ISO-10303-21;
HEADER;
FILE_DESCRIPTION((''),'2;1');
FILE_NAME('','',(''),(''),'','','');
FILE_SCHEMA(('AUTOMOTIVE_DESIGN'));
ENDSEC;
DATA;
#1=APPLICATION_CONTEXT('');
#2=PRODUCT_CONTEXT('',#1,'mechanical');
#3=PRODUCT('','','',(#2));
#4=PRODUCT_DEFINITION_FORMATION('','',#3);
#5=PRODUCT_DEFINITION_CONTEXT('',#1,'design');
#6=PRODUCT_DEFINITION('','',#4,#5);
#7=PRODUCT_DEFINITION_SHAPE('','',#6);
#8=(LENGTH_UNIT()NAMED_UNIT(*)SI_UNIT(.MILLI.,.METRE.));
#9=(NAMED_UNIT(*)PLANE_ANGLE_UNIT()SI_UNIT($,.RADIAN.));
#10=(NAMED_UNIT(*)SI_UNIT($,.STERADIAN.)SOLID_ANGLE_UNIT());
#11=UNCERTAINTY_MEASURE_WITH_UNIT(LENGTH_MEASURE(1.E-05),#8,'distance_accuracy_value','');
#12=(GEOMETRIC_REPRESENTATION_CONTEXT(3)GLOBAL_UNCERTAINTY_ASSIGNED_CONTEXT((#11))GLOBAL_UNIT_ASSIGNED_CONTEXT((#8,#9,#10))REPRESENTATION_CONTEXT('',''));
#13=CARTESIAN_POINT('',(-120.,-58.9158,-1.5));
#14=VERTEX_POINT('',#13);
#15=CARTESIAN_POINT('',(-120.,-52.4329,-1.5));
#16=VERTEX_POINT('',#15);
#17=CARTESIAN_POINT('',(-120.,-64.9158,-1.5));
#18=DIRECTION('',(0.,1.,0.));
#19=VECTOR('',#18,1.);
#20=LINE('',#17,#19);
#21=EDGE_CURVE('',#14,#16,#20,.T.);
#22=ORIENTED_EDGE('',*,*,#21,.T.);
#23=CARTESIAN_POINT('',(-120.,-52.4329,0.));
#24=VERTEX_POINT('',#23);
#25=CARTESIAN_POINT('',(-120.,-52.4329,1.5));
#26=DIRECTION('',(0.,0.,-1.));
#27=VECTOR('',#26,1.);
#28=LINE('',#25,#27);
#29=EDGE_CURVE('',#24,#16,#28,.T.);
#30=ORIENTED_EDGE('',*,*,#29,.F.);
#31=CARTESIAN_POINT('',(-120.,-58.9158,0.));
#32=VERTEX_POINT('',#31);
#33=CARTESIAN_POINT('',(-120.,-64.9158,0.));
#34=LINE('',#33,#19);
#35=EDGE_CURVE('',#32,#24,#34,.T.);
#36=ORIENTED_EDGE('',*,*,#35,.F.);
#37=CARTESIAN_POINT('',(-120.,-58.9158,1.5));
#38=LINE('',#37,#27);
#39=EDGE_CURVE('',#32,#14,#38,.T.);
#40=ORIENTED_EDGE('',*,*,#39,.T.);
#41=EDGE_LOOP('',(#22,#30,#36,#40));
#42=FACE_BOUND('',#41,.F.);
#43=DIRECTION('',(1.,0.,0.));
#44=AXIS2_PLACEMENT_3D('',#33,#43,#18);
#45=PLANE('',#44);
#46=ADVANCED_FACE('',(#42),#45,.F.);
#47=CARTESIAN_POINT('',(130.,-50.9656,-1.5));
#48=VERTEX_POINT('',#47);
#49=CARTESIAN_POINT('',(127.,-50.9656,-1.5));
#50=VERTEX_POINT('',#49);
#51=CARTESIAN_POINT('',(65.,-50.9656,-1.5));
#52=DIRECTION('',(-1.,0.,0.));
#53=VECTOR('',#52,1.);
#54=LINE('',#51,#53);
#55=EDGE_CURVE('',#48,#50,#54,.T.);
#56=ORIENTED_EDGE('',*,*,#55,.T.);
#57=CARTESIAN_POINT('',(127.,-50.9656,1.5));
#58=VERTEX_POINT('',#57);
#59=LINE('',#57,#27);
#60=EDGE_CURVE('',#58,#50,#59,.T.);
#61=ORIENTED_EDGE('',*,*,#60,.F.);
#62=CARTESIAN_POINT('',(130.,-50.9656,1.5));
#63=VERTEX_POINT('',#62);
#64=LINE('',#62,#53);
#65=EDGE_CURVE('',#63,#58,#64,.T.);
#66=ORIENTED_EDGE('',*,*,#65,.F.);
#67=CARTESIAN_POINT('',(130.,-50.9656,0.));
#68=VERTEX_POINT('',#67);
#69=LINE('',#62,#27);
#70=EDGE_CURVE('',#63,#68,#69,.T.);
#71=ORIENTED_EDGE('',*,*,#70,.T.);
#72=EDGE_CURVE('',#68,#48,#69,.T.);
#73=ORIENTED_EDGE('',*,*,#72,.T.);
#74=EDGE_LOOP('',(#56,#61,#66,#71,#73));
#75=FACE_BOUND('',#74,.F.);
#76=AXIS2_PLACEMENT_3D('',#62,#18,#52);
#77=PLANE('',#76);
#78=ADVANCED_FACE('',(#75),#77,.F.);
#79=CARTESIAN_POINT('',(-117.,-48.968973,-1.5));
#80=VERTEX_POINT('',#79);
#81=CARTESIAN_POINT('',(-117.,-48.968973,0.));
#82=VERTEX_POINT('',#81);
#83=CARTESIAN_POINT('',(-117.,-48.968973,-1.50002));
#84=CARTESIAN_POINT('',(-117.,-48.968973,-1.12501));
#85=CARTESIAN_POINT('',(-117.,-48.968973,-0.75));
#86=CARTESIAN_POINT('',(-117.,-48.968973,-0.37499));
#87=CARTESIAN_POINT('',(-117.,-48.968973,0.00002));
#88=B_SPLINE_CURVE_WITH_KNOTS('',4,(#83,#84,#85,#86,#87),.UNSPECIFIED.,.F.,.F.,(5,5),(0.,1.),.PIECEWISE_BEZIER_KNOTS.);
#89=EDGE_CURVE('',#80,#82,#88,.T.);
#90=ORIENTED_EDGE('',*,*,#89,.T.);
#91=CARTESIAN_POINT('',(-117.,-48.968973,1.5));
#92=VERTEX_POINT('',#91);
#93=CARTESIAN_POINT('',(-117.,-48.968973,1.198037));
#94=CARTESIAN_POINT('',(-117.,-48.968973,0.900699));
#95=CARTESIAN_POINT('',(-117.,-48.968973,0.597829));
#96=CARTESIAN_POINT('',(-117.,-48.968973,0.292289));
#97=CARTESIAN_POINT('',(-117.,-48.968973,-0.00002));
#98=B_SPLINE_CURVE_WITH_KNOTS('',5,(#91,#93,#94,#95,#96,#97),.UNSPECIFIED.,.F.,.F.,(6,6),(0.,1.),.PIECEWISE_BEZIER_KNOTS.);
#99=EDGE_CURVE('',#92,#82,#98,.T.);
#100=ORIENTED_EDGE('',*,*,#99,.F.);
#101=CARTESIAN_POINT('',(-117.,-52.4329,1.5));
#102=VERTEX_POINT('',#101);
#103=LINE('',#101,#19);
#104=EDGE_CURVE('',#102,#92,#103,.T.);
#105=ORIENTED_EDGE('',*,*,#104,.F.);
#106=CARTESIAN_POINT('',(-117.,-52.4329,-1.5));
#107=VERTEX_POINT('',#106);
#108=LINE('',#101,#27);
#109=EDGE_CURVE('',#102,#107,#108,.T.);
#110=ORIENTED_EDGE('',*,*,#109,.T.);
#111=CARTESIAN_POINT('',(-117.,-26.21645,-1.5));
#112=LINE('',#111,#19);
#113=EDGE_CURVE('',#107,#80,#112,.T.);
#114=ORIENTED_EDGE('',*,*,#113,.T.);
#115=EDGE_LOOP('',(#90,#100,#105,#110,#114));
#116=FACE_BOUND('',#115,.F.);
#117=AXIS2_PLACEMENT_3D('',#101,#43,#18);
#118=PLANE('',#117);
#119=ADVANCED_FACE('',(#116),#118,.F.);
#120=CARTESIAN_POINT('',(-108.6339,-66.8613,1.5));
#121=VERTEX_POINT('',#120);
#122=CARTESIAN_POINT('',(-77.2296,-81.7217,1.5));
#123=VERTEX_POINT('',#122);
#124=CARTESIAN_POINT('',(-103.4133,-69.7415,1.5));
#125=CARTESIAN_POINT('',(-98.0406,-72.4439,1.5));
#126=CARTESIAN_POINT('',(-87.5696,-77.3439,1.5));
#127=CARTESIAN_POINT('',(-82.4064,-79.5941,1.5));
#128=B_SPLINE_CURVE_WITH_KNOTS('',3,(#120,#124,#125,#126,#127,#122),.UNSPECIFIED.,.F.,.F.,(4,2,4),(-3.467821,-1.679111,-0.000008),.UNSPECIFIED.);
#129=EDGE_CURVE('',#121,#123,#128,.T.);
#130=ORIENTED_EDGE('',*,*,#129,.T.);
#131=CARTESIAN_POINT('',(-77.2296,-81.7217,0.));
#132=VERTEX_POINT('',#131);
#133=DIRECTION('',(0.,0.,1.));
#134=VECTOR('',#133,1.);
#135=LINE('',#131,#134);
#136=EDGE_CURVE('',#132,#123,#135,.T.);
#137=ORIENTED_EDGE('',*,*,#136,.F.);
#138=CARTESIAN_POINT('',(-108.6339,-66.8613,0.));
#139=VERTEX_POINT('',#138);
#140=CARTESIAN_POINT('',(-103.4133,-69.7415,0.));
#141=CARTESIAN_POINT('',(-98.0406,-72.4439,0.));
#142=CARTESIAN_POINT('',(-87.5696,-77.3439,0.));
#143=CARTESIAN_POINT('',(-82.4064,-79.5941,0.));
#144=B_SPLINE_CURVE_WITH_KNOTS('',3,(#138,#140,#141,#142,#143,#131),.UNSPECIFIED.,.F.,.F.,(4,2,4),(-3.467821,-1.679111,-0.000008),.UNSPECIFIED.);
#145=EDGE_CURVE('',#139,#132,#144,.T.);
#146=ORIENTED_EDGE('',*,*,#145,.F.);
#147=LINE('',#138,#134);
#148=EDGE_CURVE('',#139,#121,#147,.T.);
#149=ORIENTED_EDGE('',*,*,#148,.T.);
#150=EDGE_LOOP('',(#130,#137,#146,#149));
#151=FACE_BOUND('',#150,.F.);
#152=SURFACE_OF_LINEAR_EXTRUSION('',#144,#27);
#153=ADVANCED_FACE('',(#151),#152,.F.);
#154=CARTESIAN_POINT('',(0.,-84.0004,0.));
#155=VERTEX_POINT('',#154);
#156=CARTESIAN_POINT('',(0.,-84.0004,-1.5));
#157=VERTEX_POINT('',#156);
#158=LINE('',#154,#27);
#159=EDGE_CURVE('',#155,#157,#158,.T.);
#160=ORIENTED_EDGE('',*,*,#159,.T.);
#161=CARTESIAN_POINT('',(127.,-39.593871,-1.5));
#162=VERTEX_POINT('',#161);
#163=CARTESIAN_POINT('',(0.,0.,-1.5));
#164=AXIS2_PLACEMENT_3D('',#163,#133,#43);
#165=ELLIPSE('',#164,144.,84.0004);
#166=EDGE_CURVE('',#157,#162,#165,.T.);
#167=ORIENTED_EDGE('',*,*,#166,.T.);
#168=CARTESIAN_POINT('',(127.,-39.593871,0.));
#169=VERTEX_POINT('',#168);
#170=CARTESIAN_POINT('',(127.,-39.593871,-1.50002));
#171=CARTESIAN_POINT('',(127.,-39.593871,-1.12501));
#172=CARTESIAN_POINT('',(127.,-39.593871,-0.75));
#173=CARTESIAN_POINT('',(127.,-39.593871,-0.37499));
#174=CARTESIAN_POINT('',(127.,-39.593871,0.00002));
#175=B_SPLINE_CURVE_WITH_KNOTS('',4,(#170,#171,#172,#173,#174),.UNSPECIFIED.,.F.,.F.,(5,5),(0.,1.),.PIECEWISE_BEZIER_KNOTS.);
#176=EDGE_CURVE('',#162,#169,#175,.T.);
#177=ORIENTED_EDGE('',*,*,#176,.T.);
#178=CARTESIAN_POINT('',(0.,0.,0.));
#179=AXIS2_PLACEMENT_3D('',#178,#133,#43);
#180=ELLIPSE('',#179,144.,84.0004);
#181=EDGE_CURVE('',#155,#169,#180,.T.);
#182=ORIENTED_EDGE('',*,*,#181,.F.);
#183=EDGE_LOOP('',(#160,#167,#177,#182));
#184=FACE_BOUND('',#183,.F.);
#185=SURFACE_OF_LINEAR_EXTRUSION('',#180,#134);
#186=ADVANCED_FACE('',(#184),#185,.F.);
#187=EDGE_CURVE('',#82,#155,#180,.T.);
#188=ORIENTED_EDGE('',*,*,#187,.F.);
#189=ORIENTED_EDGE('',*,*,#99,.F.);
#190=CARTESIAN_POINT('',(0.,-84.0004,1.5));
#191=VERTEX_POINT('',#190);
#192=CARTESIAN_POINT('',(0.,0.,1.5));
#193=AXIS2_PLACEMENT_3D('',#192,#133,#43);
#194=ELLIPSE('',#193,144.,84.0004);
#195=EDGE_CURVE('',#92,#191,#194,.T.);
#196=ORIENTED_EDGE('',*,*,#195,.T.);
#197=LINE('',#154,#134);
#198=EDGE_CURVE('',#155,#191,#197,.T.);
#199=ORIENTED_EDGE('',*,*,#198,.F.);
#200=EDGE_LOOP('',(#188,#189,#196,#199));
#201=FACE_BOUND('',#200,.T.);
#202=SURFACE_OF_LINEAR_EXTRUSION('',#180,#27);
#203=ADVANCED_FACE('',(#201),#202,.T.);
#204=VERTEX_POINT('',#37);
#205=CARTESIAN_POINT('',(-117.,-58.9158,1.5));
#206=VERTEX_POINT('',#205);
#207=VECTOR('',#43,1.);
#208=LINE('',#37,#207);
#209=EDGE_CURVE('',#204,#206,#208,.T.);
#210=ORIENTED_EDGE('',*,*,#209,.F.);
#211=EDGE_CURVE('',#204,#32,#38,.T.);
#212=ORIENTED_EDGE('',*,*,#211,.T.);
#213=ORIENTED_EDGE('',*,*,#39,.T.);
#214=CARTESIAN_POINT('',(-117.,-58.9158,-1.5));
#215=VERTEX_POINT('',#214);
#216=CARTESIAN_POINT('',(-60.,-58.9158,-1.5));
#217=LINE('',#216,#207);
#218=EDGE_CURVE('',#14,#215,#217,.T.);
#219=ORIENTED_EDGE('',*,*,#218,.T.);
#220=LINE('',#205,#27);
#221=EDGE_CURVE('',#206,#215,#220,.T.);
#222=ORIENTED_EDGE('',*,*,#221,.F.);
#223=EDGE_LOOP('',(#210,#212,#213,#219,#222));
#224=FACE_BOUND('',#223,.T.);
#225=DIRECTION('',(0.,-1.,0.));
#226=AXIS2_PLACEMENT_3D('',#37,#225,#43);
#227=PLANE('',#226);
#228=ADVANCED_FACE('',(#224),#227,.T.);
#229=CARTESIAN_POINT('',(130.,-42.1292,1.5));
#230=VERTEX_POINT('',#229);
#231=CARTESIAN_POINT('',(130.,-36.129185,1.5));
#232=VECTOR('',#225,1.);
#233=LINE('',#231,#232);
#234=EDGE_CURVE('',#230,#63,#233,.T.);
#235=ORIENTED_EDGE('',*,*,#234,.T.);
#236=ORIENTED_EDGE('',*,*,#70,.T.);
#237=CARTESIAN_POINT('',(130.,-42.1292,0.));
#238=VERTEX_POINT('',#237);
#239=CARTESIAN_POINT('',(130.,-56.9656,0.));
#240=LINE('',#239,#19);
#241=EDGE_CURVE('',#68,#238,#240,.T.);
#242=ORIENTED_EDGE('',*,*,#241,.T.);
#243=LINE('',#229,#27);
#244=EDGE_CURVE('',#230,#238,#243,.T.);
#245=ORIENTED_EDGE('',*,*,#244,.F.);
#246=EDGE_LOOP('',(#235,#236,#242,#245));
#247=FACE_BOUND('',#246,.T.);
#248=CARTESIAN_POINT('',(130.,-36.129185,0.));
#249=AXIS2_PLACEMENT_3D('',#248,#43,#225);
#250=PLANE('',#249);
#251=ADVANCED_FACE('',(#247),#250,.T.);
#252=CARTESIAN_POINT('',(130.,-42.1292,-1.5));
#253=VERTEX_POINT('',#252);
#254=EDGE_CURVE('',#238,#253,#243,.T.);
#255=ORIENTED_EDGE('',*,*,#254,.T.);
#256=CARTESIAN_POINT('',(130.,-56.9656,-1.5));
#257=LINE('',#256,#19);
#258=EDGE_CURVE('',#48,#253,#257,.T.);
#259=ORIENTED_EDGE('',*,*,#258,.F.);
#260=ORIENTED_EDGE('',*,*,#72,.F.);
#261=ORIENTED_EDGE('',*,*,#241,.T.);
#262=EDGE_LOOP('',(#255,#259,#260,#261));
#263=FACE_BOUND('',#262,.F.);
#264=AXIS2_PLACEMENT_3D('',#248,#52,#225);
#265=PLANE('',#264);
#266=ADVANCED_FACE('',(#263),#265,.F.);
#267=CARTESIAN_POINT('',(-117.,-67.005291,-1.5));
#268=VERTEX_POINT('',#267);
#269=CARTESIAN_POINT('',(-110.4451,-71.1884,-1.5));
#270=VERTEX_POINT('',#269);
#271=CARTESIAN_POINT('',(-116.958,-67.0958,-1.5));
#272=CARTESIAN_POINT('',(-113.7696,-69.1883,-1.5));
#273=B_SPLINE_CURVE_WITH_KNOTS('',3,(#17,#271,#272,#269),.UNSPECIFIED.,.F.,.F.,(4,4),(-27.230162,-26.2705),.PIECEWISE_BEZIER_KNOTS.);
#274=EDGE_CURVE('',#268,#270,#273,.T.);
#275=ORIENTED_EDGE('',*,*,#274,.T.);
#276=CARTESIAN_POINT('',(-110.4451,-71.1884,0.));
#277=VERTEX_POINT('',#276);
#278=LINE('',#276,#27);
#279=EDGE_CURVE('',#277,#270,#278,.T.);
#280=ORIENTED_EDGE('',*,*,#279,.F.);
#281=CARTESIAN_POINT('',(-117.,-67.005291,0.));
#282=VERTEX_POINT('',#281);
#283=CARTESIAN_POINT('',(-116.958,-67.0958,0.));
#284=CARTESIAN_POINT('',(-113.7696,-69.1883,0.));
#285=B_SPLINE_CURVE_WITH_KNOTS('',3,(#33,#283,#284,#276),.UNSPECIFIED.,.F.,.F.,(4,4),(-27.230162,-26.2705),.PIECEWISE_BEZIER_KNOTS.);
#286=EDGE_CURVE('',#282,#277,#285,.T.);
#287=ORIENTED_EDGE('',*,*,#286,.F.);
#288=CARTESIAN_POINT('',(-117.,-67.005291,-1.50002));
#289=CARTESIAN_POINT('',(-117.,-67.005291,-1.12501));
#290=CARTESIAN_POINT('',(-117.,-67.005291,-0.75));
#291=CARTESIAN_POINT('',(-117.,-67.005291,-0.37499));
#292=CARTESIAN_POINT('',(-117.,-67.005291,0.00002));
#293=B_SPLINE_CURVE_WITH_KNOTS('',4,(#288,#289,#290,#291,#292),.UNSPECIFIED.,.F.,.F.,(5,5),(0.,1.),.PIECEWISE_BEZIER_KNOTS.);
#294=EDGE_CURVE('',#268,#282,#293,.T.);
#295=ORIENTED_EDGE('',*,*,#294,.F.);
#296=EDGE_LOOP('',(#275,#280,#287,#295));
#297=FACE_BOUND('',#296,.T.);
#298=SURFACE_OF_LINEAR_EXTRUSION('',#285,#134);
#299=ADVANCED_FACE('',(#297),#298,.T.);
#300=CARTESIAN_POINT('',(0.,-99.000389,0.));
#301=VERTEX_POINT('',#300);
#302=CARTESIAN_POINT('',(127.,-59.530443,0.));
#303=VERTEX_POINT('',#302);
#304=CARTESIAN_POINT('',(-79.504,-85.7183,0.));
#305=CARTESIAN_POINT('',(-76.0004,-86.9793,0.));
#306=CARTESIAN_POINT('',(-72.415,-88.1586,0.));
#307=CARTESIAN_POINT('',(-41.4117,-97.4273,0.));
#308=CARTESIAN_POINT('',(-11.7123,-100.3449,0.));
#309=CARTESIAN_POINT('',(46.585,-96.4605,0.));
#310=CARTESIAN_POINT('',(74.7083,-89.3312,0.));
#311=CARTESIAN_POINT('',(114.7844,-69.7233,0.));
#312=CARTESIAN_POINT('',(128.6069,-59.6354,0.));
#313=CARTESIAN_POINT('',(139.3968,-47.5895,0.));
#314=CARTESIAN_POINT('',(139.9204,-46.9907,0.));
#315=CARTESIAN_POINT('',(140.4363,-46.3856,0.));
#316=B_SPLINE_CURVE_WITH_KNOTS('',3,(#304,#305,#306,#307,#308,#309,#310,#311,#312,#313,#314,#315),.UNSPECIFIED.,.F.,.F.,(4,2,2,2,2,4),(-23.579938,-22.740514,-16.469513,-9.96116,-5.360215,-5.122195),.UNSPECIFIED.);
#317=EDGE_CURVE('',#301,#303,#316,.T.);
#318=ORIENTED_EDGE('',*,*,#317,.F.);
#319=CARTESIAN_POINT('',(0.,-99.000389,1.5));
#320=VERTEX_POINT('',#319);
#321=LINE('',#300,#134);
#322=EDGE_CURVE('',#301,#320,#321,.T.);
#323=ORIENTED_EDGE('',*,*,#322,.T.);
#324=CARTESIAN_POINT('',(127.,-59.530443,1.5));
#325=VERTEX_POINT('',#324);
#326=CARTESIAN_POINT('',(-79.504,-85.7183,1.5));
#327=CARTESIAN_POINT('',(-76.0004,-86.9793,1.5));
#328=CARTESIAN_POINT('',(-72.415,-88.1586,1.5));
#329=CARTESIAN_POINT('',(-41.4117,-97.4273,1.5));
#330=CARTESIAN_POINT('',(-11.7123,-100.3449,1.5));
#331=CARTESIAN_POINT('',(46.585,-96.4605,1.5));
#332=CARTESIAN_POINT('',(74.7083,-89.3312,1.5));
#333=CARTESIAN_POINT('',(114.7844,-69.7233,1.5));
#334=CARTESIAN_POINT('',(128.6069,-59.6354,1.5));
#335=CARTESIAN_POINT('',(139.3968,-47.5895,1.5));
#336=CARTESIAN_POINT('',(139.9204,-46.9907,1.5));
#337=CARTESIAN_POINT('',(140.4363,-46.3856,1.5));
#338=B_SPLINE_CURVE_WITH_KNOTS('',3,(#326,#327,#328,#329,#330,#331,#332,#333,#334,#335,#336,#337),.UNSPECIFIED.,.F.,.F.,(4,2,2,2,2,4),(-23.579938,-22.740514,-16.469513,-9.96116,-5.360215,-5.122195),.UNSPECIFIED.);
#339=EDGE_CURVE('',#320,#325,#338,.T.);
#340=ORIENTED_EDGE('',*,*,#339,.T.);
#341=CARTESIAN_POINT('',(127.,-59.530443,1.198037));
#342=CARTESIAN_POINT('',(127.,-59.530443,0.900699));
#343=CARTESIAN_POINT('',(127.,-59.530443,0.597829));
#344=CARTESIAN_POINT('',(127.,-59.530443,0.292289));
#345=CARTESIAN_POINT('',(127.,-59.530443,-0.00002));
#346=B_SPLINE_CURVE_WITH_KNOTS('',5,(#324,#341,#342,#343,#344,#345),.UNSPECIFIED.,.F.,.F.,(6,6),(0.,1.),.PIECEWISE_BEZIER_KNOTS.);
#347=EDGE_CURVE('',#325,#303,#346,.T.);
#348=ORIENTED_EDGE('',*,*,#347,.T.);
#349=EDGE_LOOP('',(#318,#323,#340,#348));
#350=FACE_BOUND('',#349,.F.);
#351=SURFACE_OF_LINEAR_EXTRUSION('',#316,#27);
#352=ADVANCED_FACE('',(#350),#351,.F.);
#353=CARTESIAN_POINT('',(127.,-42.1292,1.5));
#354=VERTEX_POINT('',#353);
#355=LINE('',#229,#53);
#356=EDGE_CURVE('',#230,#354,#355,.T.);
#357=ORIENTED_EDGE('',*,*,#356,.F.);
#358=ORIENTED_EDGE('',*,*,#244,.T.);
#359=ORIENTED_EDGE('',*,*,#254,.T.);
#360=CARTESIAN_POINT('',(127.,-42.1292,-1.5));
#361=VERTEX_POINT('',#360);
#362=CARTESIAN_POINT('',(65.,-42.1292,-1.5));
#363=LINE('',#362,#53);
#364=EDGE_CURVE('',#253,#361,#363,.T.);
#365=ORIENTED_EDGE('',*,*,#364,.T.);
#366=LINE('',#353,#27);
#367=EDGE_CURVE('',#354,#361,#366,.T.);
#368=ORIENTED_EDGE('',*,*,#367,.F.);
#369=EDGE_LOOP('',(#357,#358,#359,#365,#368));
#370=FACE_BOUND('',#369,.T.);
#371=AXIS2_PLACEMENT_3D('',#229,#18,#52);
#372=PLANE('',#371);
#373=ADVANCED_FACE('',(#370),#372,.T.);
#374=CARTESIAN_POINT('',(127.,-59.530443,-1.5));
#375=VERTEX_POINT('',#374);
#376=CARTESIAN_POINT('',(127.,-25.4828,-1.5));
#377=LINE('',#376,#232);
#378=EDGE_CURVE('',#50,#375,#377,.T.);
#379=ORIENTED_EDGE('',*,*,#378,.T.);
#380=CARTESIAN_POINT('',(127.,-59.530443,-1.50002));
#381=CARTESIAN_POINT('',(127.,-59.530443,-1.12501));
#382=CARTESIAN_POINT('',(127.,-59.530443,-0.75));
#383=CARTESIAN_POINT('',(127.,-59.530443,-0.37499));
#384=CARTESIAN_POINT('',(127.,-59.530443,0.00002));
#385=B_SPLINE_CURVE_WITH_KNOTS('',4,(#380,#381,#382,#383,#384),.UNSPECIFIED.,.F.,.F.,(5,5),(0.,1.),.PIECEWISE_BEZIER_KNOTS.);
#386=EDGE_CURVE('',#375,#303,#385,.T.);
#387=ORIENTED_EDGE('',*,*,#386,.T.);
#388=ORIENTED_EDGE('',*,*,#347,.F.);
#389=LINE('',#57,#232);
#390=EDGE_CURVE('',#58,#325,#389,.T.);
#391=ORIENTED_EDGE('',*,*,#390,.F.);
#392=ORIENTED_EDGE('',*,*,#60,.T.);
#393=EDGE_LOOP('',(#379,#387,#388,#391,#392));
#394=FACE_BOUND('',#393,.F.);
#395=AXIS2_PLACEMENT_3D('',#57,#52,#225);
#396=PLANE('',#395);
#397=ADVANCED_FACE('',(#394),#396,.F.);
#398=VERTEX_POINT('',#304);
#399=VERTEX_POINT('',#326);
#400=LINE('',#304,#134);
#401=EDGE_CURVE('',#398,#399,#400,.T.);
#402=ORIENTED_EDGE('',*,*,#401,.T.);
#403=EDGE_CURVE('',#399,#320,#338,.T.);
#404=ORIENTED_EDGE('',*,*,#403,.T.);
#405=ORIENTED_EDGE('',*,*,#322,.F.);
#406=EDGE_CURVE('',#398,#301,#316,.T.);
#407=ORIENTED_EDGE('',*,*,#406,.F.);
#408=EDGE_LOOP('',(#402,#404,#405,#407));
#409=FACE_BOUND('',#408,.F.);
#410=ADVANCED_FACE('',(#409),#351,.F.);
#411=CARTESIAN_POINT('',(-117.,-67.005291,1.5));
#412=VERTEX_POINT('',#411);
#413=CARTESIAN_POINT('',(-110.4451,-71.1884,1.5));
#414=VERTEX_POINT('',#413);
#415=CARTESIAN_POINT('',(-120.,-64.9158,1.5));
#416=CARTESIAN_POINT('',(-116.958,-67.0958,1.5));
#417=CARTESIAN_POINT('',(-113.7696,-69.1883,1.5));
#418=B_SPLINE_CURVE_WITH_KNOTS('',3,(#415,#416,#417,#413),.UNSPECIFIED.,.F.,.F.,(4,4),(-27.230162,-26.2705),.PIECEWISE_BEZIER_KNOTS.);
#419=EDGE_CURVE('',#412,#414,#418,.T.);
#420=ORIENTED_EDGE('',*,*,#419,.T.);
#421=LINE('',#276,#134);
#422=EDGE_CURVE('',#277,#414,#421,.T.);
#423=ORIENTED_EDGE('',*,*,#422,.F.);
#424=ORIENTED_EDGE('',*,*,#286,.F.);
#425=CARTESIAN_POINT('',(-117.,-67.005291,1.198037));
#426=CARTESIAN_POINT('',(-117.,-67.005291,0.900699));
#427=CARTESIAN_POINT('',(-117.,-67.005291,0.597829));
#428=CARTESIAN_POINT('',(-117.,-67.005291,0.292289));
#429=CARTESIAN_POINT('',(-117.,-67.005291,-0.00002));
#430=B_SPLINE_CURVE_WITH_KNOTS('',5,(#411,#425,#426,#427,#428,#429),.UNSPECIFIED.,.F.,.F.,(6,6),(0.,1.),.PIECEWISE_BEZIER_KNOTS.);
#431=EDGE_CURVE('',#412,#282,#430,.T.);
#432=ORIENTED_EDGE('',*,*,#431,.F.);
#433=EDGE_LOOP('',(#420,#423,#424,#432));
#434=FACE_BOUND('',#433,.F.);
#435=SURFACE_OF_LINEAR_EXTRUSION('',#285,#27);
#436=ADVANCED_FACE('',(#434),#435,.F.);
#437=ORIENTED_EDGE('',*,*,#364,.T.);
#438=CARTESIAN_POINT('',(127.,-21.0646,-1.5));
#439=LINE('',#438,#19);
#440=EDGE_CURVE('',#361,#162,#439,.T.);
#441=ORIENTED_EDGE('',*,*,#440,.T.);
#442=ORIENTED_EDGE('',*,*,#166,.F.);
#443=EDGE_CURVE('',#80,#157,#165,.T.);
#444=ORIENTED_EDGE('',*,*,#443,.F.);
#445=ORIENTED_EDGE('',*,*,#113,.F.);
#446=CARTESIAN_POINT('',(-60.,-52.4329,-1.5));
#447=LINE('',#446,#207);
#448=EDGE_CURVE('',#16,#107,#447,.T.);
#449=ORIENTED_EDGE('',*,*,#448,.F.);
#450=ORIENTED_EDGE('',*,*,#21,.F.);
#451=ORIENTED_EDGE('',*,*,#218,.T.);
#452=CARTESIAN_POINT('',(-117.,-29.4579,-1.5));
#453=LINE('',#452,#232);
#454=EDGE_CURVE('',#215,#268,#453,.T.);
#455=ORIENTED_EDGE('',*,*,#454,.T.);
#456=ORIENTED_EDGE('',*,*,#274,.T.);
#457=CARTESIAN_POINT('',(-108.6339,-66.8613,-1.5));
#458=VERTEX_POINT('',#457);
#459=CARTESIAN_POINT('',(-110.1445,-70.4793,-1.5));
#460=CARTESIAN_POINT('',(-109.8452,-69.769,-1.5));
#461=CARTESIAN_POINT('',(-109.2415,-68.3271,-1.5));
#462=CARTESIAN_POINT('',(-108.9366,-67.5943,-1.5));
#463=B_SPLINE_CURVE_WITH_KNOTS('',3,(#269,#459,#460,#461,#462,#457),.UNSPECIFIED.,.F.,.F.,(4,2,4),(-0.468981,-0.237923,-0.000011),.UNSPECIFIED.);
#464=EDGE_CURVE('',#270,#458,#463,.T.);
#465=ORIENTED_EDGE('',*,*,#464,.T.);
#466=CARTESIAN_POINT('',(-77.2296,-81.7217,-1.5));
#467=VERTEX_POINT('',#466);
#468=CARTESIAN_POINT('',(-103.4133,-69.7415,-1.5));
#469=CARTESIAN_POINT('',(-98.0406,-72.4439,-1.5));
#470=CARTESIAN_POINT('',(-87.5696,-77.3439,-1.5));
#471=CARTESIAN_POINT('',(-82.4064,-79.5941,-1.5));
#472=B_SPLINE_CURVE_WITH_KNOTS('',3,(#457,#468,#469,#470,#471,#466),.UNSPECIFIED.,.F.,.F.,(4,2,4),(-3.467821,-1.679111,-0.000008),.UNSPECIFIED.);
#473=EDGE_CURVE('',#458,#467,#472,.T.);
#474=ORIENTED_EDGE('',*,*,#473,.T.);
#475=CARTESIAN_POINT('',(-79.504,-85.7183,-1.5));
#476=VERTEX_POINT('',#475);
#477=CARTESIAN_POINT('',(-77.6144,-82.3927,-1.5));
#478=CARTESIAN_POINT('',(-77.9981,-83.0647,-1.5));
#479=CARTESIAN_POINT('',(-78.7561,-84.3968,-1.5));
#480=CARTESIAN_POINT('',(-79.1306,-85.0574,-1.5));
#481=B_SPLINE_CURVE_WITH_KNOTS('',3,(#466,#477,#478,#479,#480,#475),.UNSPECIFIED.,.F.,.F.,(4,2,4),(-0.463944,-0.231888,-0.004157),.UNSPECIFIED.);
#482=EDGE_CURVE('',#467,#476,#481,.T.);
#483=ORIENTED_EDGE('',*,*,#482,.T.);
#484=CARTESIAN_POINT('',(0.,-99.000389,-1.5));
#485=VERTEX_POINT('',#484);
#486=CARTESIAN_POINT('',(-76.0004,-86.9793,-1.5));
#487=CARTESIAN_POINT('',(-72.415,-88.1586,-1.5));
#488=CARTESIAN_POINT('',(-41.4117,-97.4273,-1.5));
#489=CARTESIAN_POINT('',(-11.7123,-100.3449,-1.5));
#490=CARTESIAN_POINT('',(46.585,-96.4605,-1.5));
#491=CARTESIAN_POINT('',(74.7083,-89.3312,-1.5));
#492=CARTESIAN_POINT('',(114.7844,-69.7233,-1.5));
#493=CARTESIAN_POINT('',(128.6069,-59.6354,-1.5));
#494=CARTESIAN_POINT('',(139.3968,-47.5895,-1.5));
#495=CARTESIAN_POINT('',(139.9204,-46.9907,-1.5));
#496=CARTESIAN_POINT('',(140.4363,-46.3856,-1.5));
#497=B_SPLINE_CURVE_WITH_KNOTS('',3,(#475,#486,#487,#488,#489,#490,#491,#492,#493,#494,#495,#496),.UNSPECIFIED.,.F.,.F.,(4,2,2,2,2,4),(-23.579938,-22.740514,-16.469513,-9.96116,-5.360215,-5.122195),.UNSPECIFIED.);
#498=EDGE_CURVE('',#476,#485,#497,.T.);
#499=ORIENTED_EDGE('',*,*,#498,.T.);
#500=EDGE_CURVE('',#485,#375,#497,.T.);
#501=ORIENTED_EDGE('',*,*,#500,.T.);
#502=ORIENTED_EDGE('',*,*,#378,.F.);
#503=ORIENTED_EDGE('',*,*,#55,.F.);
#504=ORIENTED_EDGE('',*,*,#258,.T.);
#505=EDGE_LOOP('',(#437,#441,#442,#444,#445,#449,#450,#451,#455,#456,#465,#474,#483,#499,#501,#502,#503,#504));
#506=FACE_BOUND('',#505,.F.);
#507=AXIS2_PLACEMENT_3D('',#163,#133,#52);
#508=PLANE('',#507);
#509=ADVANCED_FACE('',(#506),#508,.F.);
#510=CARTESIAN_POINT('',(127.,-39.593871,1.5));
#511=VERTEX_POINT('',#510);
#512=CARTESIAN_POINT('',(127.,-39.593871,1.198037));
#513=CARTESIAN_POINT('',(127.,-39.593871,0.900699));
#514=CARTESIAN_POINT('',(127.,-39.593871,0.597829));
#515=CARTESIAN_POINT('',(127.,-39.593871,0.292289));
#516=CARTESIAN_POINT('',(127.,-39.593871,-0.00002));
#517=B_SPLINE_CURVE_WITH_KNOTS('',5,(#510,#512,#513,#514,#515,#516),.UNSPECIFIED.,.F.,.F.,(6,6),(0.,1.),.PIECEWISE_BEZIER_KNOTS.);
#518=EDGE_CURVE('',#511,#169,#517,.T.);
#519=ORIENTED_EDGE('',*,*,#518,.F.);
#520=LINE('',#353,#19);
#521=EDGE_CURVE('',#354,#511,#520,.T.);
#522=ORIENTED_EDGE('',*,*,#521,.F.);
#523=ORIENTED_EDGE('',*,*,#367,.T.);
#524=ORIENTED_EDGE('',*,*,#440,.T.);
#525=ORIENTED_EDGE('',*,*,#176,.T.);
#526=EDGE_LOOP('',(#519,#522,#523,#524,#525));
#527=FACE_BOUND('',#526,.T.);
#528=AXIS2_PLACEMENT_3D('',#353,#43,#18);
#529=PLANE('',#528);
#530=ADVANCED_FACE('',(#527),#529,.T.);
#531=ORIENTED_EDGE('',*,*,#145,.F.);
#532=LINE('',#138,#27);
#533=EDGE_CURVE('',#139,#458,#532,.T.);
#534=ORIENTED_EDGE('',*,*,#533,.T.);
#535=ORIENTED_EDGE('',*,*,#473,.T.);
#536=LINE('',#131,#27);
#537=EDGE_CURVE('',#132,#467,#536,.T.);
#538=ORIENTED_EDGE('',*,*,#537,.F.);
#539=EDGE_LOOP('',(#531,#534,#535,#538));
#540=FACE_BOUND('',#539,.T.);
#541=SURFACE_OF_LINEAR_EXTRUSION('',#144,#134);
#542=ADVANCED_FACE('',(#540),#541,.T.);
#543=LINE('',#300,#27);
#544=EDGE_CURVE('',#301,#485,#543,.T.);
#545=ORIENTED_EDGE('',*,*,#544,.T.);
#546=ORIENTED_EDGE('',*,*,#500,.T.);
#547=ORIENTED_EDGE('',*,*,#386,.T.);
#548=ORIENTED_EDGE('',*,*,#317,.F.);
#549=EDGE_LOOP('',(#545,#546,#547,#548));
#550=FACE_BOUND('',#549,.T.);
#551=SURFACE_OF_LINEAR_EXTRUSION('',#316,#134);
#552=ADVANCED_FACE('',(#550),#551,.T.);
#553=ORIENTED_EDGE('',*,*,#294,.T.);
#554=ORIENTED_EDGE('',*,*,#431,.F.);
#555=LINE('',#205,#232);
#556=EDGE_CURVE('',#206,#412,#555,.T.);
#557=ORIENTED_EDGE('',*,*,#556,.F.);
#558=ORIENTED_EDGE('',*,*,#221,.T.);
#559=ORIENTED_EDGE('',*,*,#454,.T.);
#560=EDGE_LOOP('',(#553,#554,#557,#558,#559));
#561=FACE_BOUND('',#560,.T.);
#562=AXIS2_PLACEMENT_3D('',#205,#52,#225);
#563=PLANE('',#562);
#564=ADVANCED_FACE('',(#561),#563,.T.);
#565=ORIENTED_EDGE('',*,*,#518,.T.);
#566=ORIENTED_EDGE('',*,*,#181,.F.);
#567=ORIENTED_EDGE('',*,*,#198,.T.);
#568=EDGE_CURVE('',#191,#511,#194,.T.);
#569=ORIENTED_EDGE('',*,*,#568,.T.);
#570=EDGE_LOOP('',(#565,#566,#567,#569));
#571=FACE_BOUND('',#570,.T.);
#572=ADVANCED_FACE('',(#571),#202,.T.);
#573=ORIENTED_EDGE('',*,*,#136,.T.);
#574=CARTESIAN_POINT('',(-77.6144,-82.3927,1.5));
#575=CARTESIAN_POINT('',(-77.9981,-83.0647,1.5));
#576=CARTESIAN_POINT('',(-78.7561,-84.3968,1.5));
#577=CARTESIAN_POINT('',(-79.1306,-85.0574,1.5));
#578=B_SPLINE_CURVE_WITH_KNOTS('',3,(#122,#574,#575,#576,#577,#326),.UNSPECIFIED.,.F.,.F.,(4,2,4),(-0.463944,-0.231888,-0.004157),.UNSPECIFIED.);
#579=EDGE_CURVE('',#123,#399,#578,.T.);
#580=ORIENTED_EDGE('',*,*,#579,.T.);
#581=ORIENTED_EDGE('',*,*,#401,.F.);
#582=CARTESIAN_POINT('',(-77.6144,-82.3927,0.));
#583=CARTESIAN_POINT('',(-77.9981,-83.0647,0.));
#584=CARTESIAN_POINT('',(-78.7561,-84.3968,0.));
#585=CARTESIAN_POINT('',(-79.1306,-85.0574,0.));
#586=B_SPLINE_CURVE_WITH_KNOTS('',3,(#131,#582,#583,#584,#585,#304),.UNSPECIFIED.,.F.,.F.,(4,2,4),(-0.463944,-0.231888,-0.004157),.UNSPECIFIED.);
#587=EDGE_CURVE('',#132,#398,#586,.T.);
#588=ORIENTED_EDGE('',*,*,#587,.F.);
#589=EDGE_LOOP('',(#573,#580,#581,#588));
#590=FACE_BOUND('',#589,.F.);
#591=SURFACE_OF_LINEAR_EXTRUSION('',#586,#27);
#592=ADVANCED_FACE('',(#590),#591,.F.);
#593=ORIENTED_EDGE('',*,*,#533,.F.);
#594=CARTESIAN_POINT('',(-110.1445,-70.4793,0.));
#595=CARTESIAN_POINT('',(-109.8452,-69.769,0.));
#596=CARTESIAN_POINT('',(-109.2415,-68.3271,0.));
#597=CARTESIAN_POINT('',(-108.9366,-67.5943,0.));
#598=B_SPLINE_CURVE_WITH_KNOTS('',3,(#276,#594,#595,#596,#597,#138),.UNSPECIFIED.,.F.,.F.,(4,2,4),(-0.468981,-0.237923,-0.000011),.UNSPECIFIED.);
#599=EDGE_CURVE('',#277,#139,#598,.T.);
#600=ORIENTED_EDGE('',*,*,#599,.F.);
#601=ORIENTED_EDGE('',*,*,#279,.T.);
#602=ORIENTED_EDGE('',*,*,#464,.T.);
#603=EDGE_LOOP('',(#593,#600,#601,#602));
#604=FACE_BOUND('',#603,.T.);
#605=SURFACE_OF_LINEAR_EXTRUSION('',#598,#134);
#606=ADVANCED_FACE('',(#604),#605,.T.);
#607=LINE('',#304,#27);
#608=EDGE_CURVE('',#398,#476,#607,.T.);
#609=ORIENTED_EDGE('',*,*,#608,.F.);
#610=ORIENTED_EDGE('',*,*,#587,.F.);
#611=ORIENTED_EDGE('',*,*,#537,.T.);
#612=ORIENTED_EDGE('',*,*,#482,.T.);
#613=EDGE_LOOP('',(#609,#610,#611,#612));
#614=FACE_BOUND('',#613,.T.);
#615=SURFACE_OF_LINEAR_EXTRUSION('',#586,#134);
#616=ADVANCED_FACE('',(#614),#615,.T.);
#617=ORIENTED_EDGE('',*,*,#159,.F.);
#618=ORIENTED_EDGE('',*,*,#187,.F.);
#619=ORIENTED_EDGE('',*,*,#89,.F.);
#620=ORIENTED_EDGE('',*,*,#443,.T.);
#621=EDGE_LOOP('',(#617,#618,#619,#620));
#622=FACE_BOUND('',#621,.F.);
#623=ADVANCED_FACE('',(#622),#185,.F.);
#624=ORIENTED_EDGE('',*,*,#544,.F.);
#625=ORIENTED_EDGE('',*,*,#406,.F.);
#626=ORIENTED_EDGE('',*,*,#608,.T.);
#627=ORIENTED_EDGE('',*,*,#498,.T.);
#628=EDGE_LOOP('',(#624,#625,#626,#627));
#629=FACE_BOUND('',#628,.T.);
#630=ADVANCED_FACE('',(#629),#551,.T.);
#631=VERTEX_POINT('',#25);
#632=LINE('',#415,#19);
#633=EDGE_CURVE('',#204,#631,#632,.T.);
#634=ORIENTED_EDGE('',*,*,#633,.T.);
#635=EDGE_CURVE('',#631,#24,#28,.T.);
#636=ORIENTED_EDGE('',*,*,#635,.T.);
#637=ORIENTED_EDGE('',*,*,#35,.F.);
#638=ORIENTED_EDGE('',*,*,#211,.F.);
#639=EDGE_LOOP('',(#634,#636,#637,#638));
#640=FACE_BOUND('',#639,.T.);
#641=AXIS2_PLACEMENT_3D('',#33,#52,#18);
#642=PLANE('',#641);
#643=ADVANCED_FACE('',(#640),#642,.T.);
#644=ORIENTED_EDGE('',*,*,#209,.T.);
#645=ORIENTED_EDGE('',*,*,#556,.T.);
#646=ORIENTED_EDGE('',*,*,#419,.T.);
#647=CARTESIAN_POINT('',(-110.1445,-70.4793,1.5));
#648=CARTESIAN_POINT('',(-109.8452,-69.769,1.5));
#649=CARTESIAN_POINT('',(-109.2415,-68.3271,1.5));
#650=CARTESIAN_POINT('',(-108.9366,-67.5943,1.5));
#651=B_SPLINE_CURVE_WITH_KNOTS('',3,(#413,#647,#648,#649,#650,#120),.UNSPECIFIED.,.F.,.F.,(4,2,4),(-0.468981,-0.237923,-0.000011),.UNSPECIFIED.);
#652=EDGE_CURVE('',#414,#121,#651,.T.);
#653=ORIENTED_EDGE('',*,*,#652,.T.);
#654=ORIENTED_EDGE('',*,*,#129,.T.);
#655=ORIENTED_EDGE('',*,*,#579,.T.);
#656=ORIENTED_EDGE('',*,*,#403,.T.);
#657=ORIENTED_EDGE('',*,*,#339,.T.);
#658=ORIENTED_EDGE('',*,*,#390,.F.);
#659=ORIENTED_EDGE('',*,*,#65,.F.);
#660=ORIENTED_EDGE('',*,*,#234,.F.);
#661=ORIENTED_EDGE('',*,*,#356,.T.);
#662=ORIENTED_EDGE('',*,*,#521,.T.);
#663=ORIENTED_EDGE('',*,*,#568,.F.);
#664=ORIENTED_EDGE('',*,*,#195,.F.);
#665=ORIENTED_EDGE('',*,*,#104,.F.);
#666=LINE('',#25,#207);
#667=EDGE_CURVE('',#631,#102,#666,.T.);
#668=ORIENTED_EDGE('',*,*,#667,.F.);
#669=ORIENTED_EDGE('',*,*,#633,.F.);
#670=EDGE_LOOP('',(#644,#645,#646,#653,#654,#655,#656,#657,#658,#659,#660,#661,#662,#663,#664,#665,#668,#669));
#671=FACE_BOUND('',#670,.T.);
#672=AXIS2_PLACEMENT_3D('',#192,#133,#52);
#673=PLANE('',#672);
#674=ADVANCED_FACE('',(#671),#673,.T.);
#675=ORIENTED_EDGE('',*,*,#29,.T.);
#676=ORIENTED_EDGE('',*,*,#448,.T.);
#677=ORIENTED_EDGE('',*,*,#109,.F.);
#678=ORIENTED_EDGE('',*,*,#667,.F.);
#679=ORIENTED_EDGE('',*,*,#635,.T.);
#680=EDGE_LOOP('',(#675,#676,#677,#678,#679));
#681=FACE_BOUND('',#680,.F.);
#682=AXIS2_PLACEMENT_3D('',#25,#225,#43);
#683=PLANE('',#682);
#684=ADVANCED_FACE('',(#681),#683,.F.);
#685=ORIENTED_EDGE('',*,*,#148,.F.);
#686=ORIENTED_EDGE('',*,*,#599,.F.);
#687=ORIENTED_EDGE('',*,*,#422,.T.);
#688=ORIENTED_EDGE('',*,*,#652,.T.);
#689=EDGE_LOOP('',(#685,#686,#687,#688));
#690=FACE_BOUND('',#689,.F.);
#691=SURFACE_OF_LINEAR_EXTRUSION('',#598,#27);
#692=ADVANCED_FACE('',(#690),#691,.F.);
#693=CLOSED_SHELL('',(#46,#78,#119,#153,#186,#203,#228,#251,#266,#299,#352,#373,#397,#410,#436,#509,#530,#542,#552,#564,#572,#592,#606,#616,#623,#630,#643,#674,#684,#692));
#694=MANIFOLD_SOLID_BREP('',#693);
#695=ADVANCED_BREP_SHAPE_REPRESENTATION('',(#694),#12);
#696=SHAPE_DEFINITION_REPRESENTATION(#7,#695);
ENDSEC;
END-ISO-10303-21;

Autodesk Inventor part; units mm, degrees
ref_plane "YZ Plane" through (0, 0, 0) normal (1, 0, 0) x (0, 1, 0)
ref_plane "XZ Plane" through (0, 0, 0) normal (0, 1, 0) x (-1, 0, 0)
ref_plane "XY Plane" through (0, 0, 0) normal (0, 0, 1) x (1, 0, 0)
ref_plane "Work Plane1" through (0, 0, 0) normal (0, 0, 1) x (-1, 0, 0)
sketch "Sketch1" plane through (0, 0, 0) normal (0, 0, 1) x (-1, 0, 0)
  spline S0 degree 3 poles (105.4883, 71.0587) (105.6559, 71.4694) (105.824, 71.88) (106.1569, 72.6904) (106.3216, 73.0904) (106.4867, 73.4901) knots -0.266162 -0.266162 -0.266162 -0.266162 -0.133087 -0.133087 -0.003341 -0.003341 -0.003341 -0.003341
  spline S1 degree 3 poles (106.4867, 73.4901) (99.3414, 77.5054) (91.623, 81.1106) (83.426, 84.2596) knots -25.895552 -25.895552 -25.895552 -25.895552 -23.89596 -23.89596 -23.89596 -23.89596
  spline S2 degree 3 poles (83.426, 84.2596) (83.383, 84.1862) (83.3401, 84.1127) (83.2498, 83.9584) (83.2025, 83.8776) (83.1552, 83.7967) knots -0.053633 -0.053633 -0.053633 -0.053633 -0.028107 -0.028107 0 0 0 0
  spline S3 degree 3 poles (83.1552, 83.7967) (82.995, 83.5034) (82.8346, 83.2101) (82.5137, 82.6238) (82.353, 82.3306) (82.1922, 82.0376) knots -0.200537 -0.200537 -0.200537 -0.200537 -0.100278 -0.100278 -0.000001 -0.000001 -0.000001 -0.000001
  spline S4 degree 3 poles (82.1922, 82.0376) (86.075, 80.3865) (89.9435, 78.6654) (97.7089, 75.0245) (101.6317, 73.0864) (105.4883, 71.0587) knots -2.573015 -2.573015 -2.573015 -2.573015 -1.307167 -1.307167 -0.00005 -0.00005 -0.00005 -0.00005
  spline S5 degree 3 poles (-58.9228, -91.9417) (-58.7749, -91.5277) (-58.6267, -91.1139) (-58.3286, -90.2835) (-58.1787, -89.8669) (-58.0284, -89.4505) knots -0.264733 -0.264733 -0.264733 -0.264733 -0.132868 -0.132868 -0.000055 -0.000055 -0.000055 -0.000055
  spline S6 degree 3 poles (-58.0284, -89.4505) (-62.2238, -88.2949) (-66.4105, -87.0769) (-74.8294, -84.4769) (-79.0836, -83.0842) (-83.2953, -81.6123) knots -2.643421 -2.643421 -2.643421 -2.643421 -1.338468 -1.338468 -0.000018 -0.000018 -0.000018 -0.000018
  spline S7 degree 3 poles (-83.2953, -81.6123) (-83.3681, -81.9392) (-83.4412, -82.2661) (-83.5877, -82.9196) (-83.6612, -83.2462) (-83.7349, -83.5728) knots -0.200918 -0.200918 -0.200918 -0.200918 -0.100445 -0.100445 0 0 0 0
  spline S8 degree 3 poles (-83.7349, -83.5728) (-83.7526, -83.6651) (-83.7703, -83.7574) (-83.8042, -83.9335) (-83.8204, -84.0175) (-83.8365, -84.1014) knots -0.056363 -0.056363 -0.056363 -0.056363 -0.02818 -0.02818 -0.002542 -0.002542 -0.002542 -0.002542
  spline S9 degree 3 poles (-83.8365, -84.1014) (-75.9007, -87.1708) (-67.5641, -89.7922) (-58.9228, -91.9417) knots -18.70759 -18.70759 -18.70759 -18.70759 -16.308401 -16.308401 -16.308401 -16.308401
  spline S10 degree 3 poles (-140.1561, 42.7052) (-140.5265, 42.9467) (-140.897, 43.1882) (-141.6163, 43.6575) (-141.9653, 43.8854) (-142.3142, 44.1132) knots -0.265285 -0.265285 -0.265285 -0.265285 -0.132646 -0.132646 -0.007633 -0.007633 -0.007633 -0.007633
  spline S11 degree 3 poles (-142.3142, 44.1132) (-146.1137, 39.3661) (-149.4383, 34.2577) (-152.1041, 28.8109) knots -4.827939 -4.827939 -4.827939 -4.827939 -3.006582 -3.006582 -3.006582 -3.006582
  spline S12 degree 3 poles (-152.1041, 28.8109) (-152.0643, 28.7818) (-152.0246, 28.7528) (-151.9093, 28.6685) (-151.8337, 28.6133) (-151.7582, 28.5581) knots -0.042842 -0.042842 -0.042842 -0.042842 -0.028073 -0.028073 -0.000004 -0.000004 -0.000004 -0.000004
  spline S13 degree 3 poles (-151.7582, 28.5581) (-151.4839, 28.3673) (-151.2096, 28.1764) (-150.6612, 27.7945) (-150.3869, 27.6033) (-150.1128, 27.4122) knots -0.200499 -0.200499 -0.200499 -0.200499 -0.100262 -0.100262 -0.000004 -0.000004 -0.000004 -0.000004
  spline S14 degree 3 poles (-150.1128, 27.4122) (-148.5536, 30.1288) (-146.8737, 32.8286) (-143.5422, 37.8978) (-141.8646, 40.3248) (-140.1561, 42.7052) knots -1.819993 -1.819993 -1.819993 -1.819993 -0.879034 -0.879034 -0.00001 -0.00001 -0.00001 -0.00001
  spline S15 degree 3 poles (-55.7728, -89.0282) (-55.9385, -89.4734) (-56.1038, -89.9189) (-56.4333, -90.8099) (-56.5976, -91.2556) (-56.7614, -91.7014) knots -0.285003 -0.285003 -0.285003 -0.285003 -0.142483 -0.142483 0 0 0 0
  spline S16 degree 3 poles (-56.7614, -91.7014) (-56.6983, -91.718) (-56.6352, -91.7345) (-56.509, -91.7676) (-56.4459, -91.7842) (-56.3828, -91.8007) knots -0.039143 -0.039143 -0.039143 -0.039143 -0.019569 -0.019569 0 0 0 0
  spline S17 degree 3 poles (-56.3828, -91.8007) (-56.222, -91.32) (-56.0607, -90.8394) (-55.7373, -89.8786) (-55.5752, -89.3983) (-55.4125, -88.9181) knots -0.30413 -0.30413 -0.30413 -0.30413 -0.152078 -0.152078 0 0 0 0
  spline S18 degree 3 poles (-55.4125, -88.9181) (-60.3959, -87.5747) (-65.3718, -86.1432) (-75.3762, -83.0506) (-80.443, -81.3711) (-85.4421, -79.5755) knots -3.141533 -3.141533 -3.141533 -3.141533 -1.593545 -1.593545 0 0 0 0
  spline S19 degree 3 poles (-85.4421, -79.5755) (-85.6008, -80.3472) (-85.7615, -81.1191) (-86.0831, -82.6482) (-86.2442, -83.4064) (-86.4067, -84.1638) knots -0.472496 -0.472496 -0.472496 -0.472496 -0.236135 -0.236135 -0.003733 -0.003733 -0.003733 -0.003733
  spline S20 degree 3 poles (-86.4067, -84.1638) (-90.9201, -82.3538) (-95.299, -80.3975) (-116.0195, -70.1094) (-129.7607, -59.9705) (-146.1593, -41.4596) (-151.3501, -33.6293) (-158.2079, -17.0493) (-159.9962, -8.6553) (-160, -0.0185) (-160, -0.0092) (-160, 0) knots -11.169519 -11.169519 -11.169519 -11.169519 -9.988301 -9.988301 -5.37837 -5.37837 -2.588261 -2.588261 0 0 0.002775 0.002775 0.002775 0.002775
  spline S21 degree 3 poles (-160, 0) (-160, 0.0092) (-160, 0.0185) (-159.9962, 8.6553) (-158.2079, 17.0493) (-154.5318, 25.937) (-154.1376, 26.8372) (-153.7259, 27.7288) knots -31.829362 -31.829362 -31.829362 -31.829362 -31.826146 -31.826146 -28.826161 -28.826161 -28.484445 -28.484445 -28.484445 -28.484445
  spline S22 degree 3 poles (-153.7259, 27.7288) (-153.1336, 27.3124) (-152.5409, 26.8949) (-151.3076, 26.0243) (-150.6649, 25.5695) (-150.024, 25.1147) knots -0.452924 -0.452924 -0.452924 -0.452924 -0.235762 -0.235762 0 0 0 0
  spline S23 degree 3 poles (-150.024, 25.1147) (-148.2187, 28.3868) (-146.2111, 31.6512) (-142.2626, 37.6605) (-140.2732, 40.5119) (-138.2471, 43.2948) knots -2.156978 -2.156978 -2.156978 -2.156978 -1.032693 -1.032693 0 0 0 0
  spline S24 degree 3 poles (-138.2471, 43.2948) (-138.666, 43.5795) (-139.085, 43.8644) (-139.9224, 44.4342) (-140.3412, 44.7193) (-140.7597, 45.0044) knots -0.303868 -0.303868 -0.303868 -0.303868 -0.151928 -0.151928 0 0 0 0
  spline S25 degree 3 poles (-140.7597, 45.0044) (-140.7862, 44.9688) (-140.8126, 44.9333) (-140.8655, 44.8622) (-140.8919, 44.8266) (-140.9183, 44.7911) knots -0.026582 -0.026582 -0.026582 -0.026582 -0.013294 -0.013294 0 0 0 0
  spline S26 degree 3 poles (-140.9183, 44.7911) (-140.5212, 44.5325) (-140.1238, 44.2739) (-139.3291, 43.7572) (-138.9316, 43.4988) (-138.5341, 43.2407) knots -0.284373 -0.284373 -0.284373 -0.284373 -0.142194 -0.142194 0 0 0 0
  spline S27 degree 3 poles (-138.5341, 43.2407) (-140.5827, 40.4214) (-142.5937, 37.5316) (-146.4382, 31.6576) (-148.3257, 28.5856) (-150.0388, 25.5027) knots -2.101071 -2.101071 -2.101071 -2.101071 -1.058051 -1.058051 0 0 0 0
  spline S28 degree 3 poles (-150.0388, 25.5027) (-150.4509, 25.7942) (-150.8636, 26.0856) (-151.6884, 26.6672) (-152.1012, 26.9578) (-152.5139, 27.2479) knots -0.302777 -0.302777 -0.302777 -0.302777 -0.151341 -0.151341 0 0 0 0
  spline S29 degree 3 poles (-152.5139, 27.2479) (-152.7152, 27.3968) (-152.9166, 27.5456) (-153.2728, 27.8086) (-153.4277, 27.9229) (-153.5827, 28.0371) knots -0.150173 -0.150173 -0.150173 -0.150173 -0.075073 -0.075073 -0.017326 -0.017326 -0.017326 -0.017326
  spline S30 degree 3 poles (-153.5827, 28.0371) (-150.1123, 35.463) (-145.4306, 42.2822) (-129.7607, 59.9705) (-116.0195, 70.1094) (-76.1689, 89.896) (-48.1593, 97.1685) (10.3236, 101.4292) (40.3067, 98.6374) (72.6866, 89.1455) (77.3003, 87.6154) (81.772, 85.9536) knots -28.445006 -28.445006 -28.445006 -28.445006 -25.59222 -25.59222 -20.248971 -20.248971 -12.682668 -12.682668 -5.317025 -5.317025 -4.052572 -4.052572 -4.052572 -4.052572
  spline S31 degree 3 poles (81.772, 85.9536) (81.3968, 85.2772) (81.0207, 84.6011) (80.261, 83.24) (79.8771, 82.5546) (79.4924, 81.87) knots -0.467618 -0.467618 -0.467618 -0.467618 -0.235584 -0.235584 0 0 0 0
  spline S32 degree 3 poles (79.4924, 81.87) (84.1061, 79.9441) (88.7048, 77.9202) (97.927, 73.5976) (102.5965, 71.2674) (107.162, 68.806) knots -3.056553 -3.056553 -3.056553 -3.056553 -1.556035 -1.556035 0 0 0 0
  spline S33 degree 3 poles (107.162, 68.806) (107.3625, 69.2729) (107.5637, 69.7398) (107.967, 70.6725) (108.1693, 71.1387) (108.372, 71.6045) knots -0.304859 -0.304859 -0.304859 -0.304859 -0.152403 -0.152403 0 0 0 0
  spline S34 degree 3 poles (108.372, 71.6045) (108.3114, 71.6376) (108.2508, 71.6707) (108.1296, 71.7369) (108.069, 71.7699) (108.0084, 71.8029) knots -0.041431 -0.041431 -0.041431 -0.041431 -0.020705 -0.020705 0 0 0 0
  spline S35 degree 3 poles (108.0084, 71.8029) (107.8317, 71.3605) (107.6555, 70.9178) (107.3043, 70.0319) (107.1293, 69.5884) (106.9549, 69.1449) knots -0.285892 -0.285892 -0.285892 -0.285892 -0.142982 -0.142982 0 0 0 0
  spline S36 degree 3 poles (106.9549, 69.1449) (102.4581, 71.5609) (97.862, 73.8503) (88.8578, 78.0679) (84.4081, 80.0293) (79.9435, 81.8987) knots -2.982662 -2.982662 -2.982662 -2.982662 -1.452066 -1.452066 0 0 0 0
  spline S37 degree 3 poles (79.9435, 81.8987) (80.1899, 82.3388) (80.4359, 82.7793) (80.9269, 83.6602) (81.172, 84.1009) (81.4166, 84.5417) knots -0.302566 -0.302566 -0.302566 -0.302566 -0.151255 -0.151255 0 0 0 0
  spline S38 degree 3 poles (81.4166, 84.5417) (81.5446, 84.757) (81.6725, 84.9724) (81.9225, 85.3939) (82.0446, 85.6002) (82.1667, 85.8065) knots -0.150242 -0.150242 -0.150242 -0.150242 -0.075112 -0.075112 -0.003204 -0.003204 -0.003204 -0.003204
  spline S39 degree 3 poles (82.1667, 85.8065) (96.3401, 80.5048) (109.0798, 73.8828) (120, 66.1438) knots -4.015333 -4.015333 -4.015333 -4.015333 0 0 0 0
  line L0 (120, 66.1438) -> (120, 64.9158)
  spline S40 degree 3 poles (120, 64.9158) (116.958, 67.0958) (113.7696, 69.1883) (110.4451, 71.1884) knots -27.230162 -27.230162 -27.230162 -27.230162 -26.2705 -26.2705 -26.2705 -26.2705
  spline S41 degree 3 poles (110.4451, 71.1884) (110.1445, 70.4793) (109.8452, 69.769) (109.2415, 68.3271) (108.9366, 67.5943) (108.6339, 66.8613) knots -0.468981 -0.468981 -0.468981 -0.468981 -0.237923 -0.237923 -0.000011 -0.000011 -0.000011 -0.000011
  spline S42 degree 3 poles (108.6339, 66.8613) (103.4133, 69.7415) (98.0406, 72.4439) (87.5696, 77.3439) (82.4064, 79.5941) (77.2296, 81.7217) knots -3.467821 -3.467821 -3.467821 -3.467821 -1.679111 -1.679111 -0.000008 -0.000008 -0.000008 -0.000008
  spline S43 degree 3 poles (77.2296, 81.7217) (77.6144, 82.3927) (77.9981, 83.0647) (78.7561, 84.3968) (79.1306, 85.0574) (79.504, 85.7183) knots -0.463944 -0.463944 -0.463944 -0.463944 -0.231888 -0.231888 -0.004157 -0.004157 -0.004157 -0.004157
  spline S44 degree 3 poles (79.504, 85.7183) (76.0004, 86.9793) (72.415, 88.1586) (41.4117, 97.4273) (11.7123, 100.3449) (-46.585, 96.4605) (-74.7083, 89.3312) (-114.7844, 69.7233) (-128.6069, 59.6354) (-139.3968, 47.5895) (-139.9204, 46.9907) (-140.4363, 46.3856) knots -23.579938 -23.579938 -23.579938 -23.579938 -22.740514 -22.740514 -16.469513 -16.469513 -9.96116 -9.96116 -5.360215 -5.360215 -5.122195 -5.122195 -5.122195 -5.122195
  spline S45 degree 3 poles (-140.4363, 46.3856) (-139.8213, 45.9676) (-139.2057, 45.5495) (-137.9379, 44.6893) (-137.2846, 44.2465) (-136.6316, 43.8045) knots -0.459695 -0.459695 -0.459695 -0.459695 -0.236626 -0.236626 -0.000067 -0.000067 -0.000067 -0.000067
  spline S46 degree 3 poles (-136.6316, 43.8045) (-139.0543, 40.5163) (-141.435, 37.1237) (-145.8862, 30.2958) (-148.0558, 26.7109) (-149.9507, 23.1379) knots -2.432531 -2.432531 -2.432531 -2.432531 -1.213323 -1.213323 -0.000041 -0.000041 -0.000041 -0.000041
  spline S47 degree 3 poles (-149.9507, 23.1379) (-150.5793, 23.5926) (-151.2102, 24.0472) (-152.4036, 24.904) (-152.9683, 25.3083) (-153.5328, 25.7113) knots -0.46512 -0.46512 -0.46512 -0.46512 -0.232385 -0.232385 -0.024389 -0.024389 -0.024389 -0.024389
  spline S48 degree 3 poles (-153.5328, 25.7113) (-153.6538, 25.4318) (-153.773, 25.1514) (-157.1991, 16.9475) (-158.9961, 8.6066) (-159, 0.0184) (-159, 0.0092) (-159, 0) knots -2.665061 -2.665061 -2.665061 -2.665061 -2.573705 -2.573705 0 0 0.002756 0.002756 0.002756 0.002756
  spline S49 degree 3 poles (-159, 0) (-159, -0.0092) (-159, -0.0184) (-158.9961, -8.6066) (-157.1991, -16.9475) (-150.3081, -33.4479) (-145.0794, -41.2454) (-128.6069, -59.6354) (-114.7844, -69.7233) (-94.9296, -79.4376) (-91.5828, -80.947) (-88.1549, -82.3704) knots -31.860137 -31.860137 -31.860137 -31.860137 -31.856914 -31.856914 -28.845903 -28.845903 -25.585929 -25.585929 -20.203225 -20.203225 -19.146895 -19.146895 -19.146895 -19.146895
  spline S50 degree 3 poles (-88.1549, -82.3704) (-88.0052, -81.6256) (-87.8572, -80.88) (-87.5617, -79.3716) (-87.4141, -78.6078) (-87.2687, -77.844) knots -0.461141 -0.461141 -0.461141 -0.461141 -0.233241 -0.233241 -0.000001 -0.000001 -0.000001 -0.000001
  spline S51 degree 3 poles (-87.2687, -77.844) (-81.5487, -79.9485) (-75.7304, -81.8959) (-64.3706, -85.4046) (-58.7727, -86.9978) (-53.1699, -88.4802) knots -3.567329 -3.567329 -3.567329 -3.567329 -1.738656 -1.738656 -0.000005 -0.000005 -0.000005 -0.000005
  spline S52 degree 3 poles (-53.1699, -88.4802) (-53.431, -89.2258) (-53.6908, -89.9722) (-54.2061, -91.4603) (-54.4617, -92.2027) (-54.7161, -92.9452) knots -0.473894 -0.473894 -0.473894 -0.473894 -0.236906 -0.236906 -0.001451 -0.001451 -0.001451 -0.001451
  spline S53 degree 3 poles (-54.7161, -92.9452) (-42.581, -95.7181) (-29.8883, -97.573) (11.7123, -100.3449) (41.4117, -97.4273) (88.331, -83.4004) (105.7686, -75.1143) (120, -64.9158) knots -15.921251 -15.921251 -15.921251 -15.921251 -12.589021 -12.589021 -5.252496 -5.252496 0 0 0 0
  line L1 (120, -64.9158) -> (120, -66.1438)
  spline S54 degree 3 poles (120, -66.1438) (105.5396, -76.3916) (87.8918, -84.6882) (40.3067, -98.6374) (10.3236, -101.4292) (-42.6253, -97.5717) (-65.6494, -92.43) (-85.9727, -84.3372) knots -27.458265 -27.458265 -27.458265 -27.458265 -22.870958 -22.870958 -16.51619 -16.51619 -11.207345 -11.207345 -11.207345 -11.207345
  spline S55 degree 3 poles (-85.9727, -84.3372) (-85.9295, -84.1013) (-85.8864, -83.8654) (-85.7984, -83.3821) (-85.7536, -83.1347) (-85.709, -82.8873) knots -0.147372 -0.147372 -0.147372 -0.147372 -0.075421 -0.075421 0 0 0 0
  spline S56 degree 3 poles (-85.709, -82.8873) (-85.6031, -82.3929) (-85.4977, -81.8982) (-85.2884, -80.9085) (-85.1844, -80.4132) (-85.081, -79.918) knots -0.303476 -0.303476 -0.303476 -0.303476 -0.151784 -0.151784 0 0 0 0
  spline S57 degree 3 poles (-85.081, -79.918) (-80.1681, -81.6744) (-75.1908, -83.3195) (-65.4257, -86.3336) (-60.6031, -87.7222) (-55.7728, -89.0282) knots -3.066818 -3.066818 -3.066818 -3.066818 -1.501137 -1.501137 0 0 0 0
  line L2 (-130, 8.1062) -> (-130, 56.9656) projected
  line L3 (-130, 56.9656) -> (-130, 45.8815)
  line L4 (120, 64.9158) -> (120, 46.4329)
  ellipse E0 centre (0, 0) end of major axis (0, 84.0004) minor radius 144
  line L5 (-217.5271, 0) -> (185.1628, 0)
  line L6 (0, -140) -> (0, 140)
  point P0 (-144, 0)
  point P1 (0, 99.0004)
  point P2 (0, 84.0004)
  point P3 (-130, 36.1292)
  dimension "d0" = 15
  dimension "d1" = 15
extrude "Extrusion1" add sketch "Sketch1" along normal mid plane 3 contours L2 S44 L6 E0 | E0 L6 S44 S43 S42 S41 S40 L4
sketch "Sketch2" plane through (0, 0, 1.5) normal (0, 0, 1) x (1, 0, 0)
  line L0 (-120, -46.4329) -> (-120, -64.9158) projected
  line L1 (130, -56.9656) -> (130, -36.1292) projected
  line L2 (130, -42.1292) -> (127, -42.1292)
  line L3 (127, -42.1292) -> (127, -31.2453)
  line L4 (127, -31.2453) -> (130, -31.2453)
  line L5 (130, -31.2453) -> (130, -42.1292)
  line L6 (130, -50.9656) -> (127, -50.9656)
  line L7 (127, -50.9656) -> (127, -61.0476)
  line L8 (127, -61.0476) -> (130, -61.0476)
  line L9 (130, -61.0476) -> (130, -50.9656)
  line L10 (-120, -52.4329) -> (-117, -52.4329)
  line L11 (-117, -52.4329) -> (-117, -43.0285)
  line L12 (-117, -43.0285) -> (-120, -43.0285)
  line L13 (-120, -43.0285) -> (-120, -52.4329)
  line L14 (-120, -58.9158) -> (-117, -58.9158)
  line L15 (-117, -58.9158) -> (-117, -71.4096)
  line L16 (-117, -71.4096) -> (-120, -71.4096)
  line L17 (-120, -71.4096) -> (-120, -58.9158)
  point P0 (0, 0)
  point P1 (128.5, -42.1292)
  point P2 (-118.5, -52.4329)
  point P3 (130, -50.9656)
  point P4 (130, -42.1292)
  dimension "d5" = 3
  dimension "d6" = 3
  dimension "d7" = 6
  dimension "d8" = 6
  dimension "d9" = 3
  dimension "d10" = 3
  dimension "d11" = 6
  dimension "d12" = 6
extrude "Extrusion2" cut sketch "Sketch2" against normal blind 10
properties part number "Spant2"
